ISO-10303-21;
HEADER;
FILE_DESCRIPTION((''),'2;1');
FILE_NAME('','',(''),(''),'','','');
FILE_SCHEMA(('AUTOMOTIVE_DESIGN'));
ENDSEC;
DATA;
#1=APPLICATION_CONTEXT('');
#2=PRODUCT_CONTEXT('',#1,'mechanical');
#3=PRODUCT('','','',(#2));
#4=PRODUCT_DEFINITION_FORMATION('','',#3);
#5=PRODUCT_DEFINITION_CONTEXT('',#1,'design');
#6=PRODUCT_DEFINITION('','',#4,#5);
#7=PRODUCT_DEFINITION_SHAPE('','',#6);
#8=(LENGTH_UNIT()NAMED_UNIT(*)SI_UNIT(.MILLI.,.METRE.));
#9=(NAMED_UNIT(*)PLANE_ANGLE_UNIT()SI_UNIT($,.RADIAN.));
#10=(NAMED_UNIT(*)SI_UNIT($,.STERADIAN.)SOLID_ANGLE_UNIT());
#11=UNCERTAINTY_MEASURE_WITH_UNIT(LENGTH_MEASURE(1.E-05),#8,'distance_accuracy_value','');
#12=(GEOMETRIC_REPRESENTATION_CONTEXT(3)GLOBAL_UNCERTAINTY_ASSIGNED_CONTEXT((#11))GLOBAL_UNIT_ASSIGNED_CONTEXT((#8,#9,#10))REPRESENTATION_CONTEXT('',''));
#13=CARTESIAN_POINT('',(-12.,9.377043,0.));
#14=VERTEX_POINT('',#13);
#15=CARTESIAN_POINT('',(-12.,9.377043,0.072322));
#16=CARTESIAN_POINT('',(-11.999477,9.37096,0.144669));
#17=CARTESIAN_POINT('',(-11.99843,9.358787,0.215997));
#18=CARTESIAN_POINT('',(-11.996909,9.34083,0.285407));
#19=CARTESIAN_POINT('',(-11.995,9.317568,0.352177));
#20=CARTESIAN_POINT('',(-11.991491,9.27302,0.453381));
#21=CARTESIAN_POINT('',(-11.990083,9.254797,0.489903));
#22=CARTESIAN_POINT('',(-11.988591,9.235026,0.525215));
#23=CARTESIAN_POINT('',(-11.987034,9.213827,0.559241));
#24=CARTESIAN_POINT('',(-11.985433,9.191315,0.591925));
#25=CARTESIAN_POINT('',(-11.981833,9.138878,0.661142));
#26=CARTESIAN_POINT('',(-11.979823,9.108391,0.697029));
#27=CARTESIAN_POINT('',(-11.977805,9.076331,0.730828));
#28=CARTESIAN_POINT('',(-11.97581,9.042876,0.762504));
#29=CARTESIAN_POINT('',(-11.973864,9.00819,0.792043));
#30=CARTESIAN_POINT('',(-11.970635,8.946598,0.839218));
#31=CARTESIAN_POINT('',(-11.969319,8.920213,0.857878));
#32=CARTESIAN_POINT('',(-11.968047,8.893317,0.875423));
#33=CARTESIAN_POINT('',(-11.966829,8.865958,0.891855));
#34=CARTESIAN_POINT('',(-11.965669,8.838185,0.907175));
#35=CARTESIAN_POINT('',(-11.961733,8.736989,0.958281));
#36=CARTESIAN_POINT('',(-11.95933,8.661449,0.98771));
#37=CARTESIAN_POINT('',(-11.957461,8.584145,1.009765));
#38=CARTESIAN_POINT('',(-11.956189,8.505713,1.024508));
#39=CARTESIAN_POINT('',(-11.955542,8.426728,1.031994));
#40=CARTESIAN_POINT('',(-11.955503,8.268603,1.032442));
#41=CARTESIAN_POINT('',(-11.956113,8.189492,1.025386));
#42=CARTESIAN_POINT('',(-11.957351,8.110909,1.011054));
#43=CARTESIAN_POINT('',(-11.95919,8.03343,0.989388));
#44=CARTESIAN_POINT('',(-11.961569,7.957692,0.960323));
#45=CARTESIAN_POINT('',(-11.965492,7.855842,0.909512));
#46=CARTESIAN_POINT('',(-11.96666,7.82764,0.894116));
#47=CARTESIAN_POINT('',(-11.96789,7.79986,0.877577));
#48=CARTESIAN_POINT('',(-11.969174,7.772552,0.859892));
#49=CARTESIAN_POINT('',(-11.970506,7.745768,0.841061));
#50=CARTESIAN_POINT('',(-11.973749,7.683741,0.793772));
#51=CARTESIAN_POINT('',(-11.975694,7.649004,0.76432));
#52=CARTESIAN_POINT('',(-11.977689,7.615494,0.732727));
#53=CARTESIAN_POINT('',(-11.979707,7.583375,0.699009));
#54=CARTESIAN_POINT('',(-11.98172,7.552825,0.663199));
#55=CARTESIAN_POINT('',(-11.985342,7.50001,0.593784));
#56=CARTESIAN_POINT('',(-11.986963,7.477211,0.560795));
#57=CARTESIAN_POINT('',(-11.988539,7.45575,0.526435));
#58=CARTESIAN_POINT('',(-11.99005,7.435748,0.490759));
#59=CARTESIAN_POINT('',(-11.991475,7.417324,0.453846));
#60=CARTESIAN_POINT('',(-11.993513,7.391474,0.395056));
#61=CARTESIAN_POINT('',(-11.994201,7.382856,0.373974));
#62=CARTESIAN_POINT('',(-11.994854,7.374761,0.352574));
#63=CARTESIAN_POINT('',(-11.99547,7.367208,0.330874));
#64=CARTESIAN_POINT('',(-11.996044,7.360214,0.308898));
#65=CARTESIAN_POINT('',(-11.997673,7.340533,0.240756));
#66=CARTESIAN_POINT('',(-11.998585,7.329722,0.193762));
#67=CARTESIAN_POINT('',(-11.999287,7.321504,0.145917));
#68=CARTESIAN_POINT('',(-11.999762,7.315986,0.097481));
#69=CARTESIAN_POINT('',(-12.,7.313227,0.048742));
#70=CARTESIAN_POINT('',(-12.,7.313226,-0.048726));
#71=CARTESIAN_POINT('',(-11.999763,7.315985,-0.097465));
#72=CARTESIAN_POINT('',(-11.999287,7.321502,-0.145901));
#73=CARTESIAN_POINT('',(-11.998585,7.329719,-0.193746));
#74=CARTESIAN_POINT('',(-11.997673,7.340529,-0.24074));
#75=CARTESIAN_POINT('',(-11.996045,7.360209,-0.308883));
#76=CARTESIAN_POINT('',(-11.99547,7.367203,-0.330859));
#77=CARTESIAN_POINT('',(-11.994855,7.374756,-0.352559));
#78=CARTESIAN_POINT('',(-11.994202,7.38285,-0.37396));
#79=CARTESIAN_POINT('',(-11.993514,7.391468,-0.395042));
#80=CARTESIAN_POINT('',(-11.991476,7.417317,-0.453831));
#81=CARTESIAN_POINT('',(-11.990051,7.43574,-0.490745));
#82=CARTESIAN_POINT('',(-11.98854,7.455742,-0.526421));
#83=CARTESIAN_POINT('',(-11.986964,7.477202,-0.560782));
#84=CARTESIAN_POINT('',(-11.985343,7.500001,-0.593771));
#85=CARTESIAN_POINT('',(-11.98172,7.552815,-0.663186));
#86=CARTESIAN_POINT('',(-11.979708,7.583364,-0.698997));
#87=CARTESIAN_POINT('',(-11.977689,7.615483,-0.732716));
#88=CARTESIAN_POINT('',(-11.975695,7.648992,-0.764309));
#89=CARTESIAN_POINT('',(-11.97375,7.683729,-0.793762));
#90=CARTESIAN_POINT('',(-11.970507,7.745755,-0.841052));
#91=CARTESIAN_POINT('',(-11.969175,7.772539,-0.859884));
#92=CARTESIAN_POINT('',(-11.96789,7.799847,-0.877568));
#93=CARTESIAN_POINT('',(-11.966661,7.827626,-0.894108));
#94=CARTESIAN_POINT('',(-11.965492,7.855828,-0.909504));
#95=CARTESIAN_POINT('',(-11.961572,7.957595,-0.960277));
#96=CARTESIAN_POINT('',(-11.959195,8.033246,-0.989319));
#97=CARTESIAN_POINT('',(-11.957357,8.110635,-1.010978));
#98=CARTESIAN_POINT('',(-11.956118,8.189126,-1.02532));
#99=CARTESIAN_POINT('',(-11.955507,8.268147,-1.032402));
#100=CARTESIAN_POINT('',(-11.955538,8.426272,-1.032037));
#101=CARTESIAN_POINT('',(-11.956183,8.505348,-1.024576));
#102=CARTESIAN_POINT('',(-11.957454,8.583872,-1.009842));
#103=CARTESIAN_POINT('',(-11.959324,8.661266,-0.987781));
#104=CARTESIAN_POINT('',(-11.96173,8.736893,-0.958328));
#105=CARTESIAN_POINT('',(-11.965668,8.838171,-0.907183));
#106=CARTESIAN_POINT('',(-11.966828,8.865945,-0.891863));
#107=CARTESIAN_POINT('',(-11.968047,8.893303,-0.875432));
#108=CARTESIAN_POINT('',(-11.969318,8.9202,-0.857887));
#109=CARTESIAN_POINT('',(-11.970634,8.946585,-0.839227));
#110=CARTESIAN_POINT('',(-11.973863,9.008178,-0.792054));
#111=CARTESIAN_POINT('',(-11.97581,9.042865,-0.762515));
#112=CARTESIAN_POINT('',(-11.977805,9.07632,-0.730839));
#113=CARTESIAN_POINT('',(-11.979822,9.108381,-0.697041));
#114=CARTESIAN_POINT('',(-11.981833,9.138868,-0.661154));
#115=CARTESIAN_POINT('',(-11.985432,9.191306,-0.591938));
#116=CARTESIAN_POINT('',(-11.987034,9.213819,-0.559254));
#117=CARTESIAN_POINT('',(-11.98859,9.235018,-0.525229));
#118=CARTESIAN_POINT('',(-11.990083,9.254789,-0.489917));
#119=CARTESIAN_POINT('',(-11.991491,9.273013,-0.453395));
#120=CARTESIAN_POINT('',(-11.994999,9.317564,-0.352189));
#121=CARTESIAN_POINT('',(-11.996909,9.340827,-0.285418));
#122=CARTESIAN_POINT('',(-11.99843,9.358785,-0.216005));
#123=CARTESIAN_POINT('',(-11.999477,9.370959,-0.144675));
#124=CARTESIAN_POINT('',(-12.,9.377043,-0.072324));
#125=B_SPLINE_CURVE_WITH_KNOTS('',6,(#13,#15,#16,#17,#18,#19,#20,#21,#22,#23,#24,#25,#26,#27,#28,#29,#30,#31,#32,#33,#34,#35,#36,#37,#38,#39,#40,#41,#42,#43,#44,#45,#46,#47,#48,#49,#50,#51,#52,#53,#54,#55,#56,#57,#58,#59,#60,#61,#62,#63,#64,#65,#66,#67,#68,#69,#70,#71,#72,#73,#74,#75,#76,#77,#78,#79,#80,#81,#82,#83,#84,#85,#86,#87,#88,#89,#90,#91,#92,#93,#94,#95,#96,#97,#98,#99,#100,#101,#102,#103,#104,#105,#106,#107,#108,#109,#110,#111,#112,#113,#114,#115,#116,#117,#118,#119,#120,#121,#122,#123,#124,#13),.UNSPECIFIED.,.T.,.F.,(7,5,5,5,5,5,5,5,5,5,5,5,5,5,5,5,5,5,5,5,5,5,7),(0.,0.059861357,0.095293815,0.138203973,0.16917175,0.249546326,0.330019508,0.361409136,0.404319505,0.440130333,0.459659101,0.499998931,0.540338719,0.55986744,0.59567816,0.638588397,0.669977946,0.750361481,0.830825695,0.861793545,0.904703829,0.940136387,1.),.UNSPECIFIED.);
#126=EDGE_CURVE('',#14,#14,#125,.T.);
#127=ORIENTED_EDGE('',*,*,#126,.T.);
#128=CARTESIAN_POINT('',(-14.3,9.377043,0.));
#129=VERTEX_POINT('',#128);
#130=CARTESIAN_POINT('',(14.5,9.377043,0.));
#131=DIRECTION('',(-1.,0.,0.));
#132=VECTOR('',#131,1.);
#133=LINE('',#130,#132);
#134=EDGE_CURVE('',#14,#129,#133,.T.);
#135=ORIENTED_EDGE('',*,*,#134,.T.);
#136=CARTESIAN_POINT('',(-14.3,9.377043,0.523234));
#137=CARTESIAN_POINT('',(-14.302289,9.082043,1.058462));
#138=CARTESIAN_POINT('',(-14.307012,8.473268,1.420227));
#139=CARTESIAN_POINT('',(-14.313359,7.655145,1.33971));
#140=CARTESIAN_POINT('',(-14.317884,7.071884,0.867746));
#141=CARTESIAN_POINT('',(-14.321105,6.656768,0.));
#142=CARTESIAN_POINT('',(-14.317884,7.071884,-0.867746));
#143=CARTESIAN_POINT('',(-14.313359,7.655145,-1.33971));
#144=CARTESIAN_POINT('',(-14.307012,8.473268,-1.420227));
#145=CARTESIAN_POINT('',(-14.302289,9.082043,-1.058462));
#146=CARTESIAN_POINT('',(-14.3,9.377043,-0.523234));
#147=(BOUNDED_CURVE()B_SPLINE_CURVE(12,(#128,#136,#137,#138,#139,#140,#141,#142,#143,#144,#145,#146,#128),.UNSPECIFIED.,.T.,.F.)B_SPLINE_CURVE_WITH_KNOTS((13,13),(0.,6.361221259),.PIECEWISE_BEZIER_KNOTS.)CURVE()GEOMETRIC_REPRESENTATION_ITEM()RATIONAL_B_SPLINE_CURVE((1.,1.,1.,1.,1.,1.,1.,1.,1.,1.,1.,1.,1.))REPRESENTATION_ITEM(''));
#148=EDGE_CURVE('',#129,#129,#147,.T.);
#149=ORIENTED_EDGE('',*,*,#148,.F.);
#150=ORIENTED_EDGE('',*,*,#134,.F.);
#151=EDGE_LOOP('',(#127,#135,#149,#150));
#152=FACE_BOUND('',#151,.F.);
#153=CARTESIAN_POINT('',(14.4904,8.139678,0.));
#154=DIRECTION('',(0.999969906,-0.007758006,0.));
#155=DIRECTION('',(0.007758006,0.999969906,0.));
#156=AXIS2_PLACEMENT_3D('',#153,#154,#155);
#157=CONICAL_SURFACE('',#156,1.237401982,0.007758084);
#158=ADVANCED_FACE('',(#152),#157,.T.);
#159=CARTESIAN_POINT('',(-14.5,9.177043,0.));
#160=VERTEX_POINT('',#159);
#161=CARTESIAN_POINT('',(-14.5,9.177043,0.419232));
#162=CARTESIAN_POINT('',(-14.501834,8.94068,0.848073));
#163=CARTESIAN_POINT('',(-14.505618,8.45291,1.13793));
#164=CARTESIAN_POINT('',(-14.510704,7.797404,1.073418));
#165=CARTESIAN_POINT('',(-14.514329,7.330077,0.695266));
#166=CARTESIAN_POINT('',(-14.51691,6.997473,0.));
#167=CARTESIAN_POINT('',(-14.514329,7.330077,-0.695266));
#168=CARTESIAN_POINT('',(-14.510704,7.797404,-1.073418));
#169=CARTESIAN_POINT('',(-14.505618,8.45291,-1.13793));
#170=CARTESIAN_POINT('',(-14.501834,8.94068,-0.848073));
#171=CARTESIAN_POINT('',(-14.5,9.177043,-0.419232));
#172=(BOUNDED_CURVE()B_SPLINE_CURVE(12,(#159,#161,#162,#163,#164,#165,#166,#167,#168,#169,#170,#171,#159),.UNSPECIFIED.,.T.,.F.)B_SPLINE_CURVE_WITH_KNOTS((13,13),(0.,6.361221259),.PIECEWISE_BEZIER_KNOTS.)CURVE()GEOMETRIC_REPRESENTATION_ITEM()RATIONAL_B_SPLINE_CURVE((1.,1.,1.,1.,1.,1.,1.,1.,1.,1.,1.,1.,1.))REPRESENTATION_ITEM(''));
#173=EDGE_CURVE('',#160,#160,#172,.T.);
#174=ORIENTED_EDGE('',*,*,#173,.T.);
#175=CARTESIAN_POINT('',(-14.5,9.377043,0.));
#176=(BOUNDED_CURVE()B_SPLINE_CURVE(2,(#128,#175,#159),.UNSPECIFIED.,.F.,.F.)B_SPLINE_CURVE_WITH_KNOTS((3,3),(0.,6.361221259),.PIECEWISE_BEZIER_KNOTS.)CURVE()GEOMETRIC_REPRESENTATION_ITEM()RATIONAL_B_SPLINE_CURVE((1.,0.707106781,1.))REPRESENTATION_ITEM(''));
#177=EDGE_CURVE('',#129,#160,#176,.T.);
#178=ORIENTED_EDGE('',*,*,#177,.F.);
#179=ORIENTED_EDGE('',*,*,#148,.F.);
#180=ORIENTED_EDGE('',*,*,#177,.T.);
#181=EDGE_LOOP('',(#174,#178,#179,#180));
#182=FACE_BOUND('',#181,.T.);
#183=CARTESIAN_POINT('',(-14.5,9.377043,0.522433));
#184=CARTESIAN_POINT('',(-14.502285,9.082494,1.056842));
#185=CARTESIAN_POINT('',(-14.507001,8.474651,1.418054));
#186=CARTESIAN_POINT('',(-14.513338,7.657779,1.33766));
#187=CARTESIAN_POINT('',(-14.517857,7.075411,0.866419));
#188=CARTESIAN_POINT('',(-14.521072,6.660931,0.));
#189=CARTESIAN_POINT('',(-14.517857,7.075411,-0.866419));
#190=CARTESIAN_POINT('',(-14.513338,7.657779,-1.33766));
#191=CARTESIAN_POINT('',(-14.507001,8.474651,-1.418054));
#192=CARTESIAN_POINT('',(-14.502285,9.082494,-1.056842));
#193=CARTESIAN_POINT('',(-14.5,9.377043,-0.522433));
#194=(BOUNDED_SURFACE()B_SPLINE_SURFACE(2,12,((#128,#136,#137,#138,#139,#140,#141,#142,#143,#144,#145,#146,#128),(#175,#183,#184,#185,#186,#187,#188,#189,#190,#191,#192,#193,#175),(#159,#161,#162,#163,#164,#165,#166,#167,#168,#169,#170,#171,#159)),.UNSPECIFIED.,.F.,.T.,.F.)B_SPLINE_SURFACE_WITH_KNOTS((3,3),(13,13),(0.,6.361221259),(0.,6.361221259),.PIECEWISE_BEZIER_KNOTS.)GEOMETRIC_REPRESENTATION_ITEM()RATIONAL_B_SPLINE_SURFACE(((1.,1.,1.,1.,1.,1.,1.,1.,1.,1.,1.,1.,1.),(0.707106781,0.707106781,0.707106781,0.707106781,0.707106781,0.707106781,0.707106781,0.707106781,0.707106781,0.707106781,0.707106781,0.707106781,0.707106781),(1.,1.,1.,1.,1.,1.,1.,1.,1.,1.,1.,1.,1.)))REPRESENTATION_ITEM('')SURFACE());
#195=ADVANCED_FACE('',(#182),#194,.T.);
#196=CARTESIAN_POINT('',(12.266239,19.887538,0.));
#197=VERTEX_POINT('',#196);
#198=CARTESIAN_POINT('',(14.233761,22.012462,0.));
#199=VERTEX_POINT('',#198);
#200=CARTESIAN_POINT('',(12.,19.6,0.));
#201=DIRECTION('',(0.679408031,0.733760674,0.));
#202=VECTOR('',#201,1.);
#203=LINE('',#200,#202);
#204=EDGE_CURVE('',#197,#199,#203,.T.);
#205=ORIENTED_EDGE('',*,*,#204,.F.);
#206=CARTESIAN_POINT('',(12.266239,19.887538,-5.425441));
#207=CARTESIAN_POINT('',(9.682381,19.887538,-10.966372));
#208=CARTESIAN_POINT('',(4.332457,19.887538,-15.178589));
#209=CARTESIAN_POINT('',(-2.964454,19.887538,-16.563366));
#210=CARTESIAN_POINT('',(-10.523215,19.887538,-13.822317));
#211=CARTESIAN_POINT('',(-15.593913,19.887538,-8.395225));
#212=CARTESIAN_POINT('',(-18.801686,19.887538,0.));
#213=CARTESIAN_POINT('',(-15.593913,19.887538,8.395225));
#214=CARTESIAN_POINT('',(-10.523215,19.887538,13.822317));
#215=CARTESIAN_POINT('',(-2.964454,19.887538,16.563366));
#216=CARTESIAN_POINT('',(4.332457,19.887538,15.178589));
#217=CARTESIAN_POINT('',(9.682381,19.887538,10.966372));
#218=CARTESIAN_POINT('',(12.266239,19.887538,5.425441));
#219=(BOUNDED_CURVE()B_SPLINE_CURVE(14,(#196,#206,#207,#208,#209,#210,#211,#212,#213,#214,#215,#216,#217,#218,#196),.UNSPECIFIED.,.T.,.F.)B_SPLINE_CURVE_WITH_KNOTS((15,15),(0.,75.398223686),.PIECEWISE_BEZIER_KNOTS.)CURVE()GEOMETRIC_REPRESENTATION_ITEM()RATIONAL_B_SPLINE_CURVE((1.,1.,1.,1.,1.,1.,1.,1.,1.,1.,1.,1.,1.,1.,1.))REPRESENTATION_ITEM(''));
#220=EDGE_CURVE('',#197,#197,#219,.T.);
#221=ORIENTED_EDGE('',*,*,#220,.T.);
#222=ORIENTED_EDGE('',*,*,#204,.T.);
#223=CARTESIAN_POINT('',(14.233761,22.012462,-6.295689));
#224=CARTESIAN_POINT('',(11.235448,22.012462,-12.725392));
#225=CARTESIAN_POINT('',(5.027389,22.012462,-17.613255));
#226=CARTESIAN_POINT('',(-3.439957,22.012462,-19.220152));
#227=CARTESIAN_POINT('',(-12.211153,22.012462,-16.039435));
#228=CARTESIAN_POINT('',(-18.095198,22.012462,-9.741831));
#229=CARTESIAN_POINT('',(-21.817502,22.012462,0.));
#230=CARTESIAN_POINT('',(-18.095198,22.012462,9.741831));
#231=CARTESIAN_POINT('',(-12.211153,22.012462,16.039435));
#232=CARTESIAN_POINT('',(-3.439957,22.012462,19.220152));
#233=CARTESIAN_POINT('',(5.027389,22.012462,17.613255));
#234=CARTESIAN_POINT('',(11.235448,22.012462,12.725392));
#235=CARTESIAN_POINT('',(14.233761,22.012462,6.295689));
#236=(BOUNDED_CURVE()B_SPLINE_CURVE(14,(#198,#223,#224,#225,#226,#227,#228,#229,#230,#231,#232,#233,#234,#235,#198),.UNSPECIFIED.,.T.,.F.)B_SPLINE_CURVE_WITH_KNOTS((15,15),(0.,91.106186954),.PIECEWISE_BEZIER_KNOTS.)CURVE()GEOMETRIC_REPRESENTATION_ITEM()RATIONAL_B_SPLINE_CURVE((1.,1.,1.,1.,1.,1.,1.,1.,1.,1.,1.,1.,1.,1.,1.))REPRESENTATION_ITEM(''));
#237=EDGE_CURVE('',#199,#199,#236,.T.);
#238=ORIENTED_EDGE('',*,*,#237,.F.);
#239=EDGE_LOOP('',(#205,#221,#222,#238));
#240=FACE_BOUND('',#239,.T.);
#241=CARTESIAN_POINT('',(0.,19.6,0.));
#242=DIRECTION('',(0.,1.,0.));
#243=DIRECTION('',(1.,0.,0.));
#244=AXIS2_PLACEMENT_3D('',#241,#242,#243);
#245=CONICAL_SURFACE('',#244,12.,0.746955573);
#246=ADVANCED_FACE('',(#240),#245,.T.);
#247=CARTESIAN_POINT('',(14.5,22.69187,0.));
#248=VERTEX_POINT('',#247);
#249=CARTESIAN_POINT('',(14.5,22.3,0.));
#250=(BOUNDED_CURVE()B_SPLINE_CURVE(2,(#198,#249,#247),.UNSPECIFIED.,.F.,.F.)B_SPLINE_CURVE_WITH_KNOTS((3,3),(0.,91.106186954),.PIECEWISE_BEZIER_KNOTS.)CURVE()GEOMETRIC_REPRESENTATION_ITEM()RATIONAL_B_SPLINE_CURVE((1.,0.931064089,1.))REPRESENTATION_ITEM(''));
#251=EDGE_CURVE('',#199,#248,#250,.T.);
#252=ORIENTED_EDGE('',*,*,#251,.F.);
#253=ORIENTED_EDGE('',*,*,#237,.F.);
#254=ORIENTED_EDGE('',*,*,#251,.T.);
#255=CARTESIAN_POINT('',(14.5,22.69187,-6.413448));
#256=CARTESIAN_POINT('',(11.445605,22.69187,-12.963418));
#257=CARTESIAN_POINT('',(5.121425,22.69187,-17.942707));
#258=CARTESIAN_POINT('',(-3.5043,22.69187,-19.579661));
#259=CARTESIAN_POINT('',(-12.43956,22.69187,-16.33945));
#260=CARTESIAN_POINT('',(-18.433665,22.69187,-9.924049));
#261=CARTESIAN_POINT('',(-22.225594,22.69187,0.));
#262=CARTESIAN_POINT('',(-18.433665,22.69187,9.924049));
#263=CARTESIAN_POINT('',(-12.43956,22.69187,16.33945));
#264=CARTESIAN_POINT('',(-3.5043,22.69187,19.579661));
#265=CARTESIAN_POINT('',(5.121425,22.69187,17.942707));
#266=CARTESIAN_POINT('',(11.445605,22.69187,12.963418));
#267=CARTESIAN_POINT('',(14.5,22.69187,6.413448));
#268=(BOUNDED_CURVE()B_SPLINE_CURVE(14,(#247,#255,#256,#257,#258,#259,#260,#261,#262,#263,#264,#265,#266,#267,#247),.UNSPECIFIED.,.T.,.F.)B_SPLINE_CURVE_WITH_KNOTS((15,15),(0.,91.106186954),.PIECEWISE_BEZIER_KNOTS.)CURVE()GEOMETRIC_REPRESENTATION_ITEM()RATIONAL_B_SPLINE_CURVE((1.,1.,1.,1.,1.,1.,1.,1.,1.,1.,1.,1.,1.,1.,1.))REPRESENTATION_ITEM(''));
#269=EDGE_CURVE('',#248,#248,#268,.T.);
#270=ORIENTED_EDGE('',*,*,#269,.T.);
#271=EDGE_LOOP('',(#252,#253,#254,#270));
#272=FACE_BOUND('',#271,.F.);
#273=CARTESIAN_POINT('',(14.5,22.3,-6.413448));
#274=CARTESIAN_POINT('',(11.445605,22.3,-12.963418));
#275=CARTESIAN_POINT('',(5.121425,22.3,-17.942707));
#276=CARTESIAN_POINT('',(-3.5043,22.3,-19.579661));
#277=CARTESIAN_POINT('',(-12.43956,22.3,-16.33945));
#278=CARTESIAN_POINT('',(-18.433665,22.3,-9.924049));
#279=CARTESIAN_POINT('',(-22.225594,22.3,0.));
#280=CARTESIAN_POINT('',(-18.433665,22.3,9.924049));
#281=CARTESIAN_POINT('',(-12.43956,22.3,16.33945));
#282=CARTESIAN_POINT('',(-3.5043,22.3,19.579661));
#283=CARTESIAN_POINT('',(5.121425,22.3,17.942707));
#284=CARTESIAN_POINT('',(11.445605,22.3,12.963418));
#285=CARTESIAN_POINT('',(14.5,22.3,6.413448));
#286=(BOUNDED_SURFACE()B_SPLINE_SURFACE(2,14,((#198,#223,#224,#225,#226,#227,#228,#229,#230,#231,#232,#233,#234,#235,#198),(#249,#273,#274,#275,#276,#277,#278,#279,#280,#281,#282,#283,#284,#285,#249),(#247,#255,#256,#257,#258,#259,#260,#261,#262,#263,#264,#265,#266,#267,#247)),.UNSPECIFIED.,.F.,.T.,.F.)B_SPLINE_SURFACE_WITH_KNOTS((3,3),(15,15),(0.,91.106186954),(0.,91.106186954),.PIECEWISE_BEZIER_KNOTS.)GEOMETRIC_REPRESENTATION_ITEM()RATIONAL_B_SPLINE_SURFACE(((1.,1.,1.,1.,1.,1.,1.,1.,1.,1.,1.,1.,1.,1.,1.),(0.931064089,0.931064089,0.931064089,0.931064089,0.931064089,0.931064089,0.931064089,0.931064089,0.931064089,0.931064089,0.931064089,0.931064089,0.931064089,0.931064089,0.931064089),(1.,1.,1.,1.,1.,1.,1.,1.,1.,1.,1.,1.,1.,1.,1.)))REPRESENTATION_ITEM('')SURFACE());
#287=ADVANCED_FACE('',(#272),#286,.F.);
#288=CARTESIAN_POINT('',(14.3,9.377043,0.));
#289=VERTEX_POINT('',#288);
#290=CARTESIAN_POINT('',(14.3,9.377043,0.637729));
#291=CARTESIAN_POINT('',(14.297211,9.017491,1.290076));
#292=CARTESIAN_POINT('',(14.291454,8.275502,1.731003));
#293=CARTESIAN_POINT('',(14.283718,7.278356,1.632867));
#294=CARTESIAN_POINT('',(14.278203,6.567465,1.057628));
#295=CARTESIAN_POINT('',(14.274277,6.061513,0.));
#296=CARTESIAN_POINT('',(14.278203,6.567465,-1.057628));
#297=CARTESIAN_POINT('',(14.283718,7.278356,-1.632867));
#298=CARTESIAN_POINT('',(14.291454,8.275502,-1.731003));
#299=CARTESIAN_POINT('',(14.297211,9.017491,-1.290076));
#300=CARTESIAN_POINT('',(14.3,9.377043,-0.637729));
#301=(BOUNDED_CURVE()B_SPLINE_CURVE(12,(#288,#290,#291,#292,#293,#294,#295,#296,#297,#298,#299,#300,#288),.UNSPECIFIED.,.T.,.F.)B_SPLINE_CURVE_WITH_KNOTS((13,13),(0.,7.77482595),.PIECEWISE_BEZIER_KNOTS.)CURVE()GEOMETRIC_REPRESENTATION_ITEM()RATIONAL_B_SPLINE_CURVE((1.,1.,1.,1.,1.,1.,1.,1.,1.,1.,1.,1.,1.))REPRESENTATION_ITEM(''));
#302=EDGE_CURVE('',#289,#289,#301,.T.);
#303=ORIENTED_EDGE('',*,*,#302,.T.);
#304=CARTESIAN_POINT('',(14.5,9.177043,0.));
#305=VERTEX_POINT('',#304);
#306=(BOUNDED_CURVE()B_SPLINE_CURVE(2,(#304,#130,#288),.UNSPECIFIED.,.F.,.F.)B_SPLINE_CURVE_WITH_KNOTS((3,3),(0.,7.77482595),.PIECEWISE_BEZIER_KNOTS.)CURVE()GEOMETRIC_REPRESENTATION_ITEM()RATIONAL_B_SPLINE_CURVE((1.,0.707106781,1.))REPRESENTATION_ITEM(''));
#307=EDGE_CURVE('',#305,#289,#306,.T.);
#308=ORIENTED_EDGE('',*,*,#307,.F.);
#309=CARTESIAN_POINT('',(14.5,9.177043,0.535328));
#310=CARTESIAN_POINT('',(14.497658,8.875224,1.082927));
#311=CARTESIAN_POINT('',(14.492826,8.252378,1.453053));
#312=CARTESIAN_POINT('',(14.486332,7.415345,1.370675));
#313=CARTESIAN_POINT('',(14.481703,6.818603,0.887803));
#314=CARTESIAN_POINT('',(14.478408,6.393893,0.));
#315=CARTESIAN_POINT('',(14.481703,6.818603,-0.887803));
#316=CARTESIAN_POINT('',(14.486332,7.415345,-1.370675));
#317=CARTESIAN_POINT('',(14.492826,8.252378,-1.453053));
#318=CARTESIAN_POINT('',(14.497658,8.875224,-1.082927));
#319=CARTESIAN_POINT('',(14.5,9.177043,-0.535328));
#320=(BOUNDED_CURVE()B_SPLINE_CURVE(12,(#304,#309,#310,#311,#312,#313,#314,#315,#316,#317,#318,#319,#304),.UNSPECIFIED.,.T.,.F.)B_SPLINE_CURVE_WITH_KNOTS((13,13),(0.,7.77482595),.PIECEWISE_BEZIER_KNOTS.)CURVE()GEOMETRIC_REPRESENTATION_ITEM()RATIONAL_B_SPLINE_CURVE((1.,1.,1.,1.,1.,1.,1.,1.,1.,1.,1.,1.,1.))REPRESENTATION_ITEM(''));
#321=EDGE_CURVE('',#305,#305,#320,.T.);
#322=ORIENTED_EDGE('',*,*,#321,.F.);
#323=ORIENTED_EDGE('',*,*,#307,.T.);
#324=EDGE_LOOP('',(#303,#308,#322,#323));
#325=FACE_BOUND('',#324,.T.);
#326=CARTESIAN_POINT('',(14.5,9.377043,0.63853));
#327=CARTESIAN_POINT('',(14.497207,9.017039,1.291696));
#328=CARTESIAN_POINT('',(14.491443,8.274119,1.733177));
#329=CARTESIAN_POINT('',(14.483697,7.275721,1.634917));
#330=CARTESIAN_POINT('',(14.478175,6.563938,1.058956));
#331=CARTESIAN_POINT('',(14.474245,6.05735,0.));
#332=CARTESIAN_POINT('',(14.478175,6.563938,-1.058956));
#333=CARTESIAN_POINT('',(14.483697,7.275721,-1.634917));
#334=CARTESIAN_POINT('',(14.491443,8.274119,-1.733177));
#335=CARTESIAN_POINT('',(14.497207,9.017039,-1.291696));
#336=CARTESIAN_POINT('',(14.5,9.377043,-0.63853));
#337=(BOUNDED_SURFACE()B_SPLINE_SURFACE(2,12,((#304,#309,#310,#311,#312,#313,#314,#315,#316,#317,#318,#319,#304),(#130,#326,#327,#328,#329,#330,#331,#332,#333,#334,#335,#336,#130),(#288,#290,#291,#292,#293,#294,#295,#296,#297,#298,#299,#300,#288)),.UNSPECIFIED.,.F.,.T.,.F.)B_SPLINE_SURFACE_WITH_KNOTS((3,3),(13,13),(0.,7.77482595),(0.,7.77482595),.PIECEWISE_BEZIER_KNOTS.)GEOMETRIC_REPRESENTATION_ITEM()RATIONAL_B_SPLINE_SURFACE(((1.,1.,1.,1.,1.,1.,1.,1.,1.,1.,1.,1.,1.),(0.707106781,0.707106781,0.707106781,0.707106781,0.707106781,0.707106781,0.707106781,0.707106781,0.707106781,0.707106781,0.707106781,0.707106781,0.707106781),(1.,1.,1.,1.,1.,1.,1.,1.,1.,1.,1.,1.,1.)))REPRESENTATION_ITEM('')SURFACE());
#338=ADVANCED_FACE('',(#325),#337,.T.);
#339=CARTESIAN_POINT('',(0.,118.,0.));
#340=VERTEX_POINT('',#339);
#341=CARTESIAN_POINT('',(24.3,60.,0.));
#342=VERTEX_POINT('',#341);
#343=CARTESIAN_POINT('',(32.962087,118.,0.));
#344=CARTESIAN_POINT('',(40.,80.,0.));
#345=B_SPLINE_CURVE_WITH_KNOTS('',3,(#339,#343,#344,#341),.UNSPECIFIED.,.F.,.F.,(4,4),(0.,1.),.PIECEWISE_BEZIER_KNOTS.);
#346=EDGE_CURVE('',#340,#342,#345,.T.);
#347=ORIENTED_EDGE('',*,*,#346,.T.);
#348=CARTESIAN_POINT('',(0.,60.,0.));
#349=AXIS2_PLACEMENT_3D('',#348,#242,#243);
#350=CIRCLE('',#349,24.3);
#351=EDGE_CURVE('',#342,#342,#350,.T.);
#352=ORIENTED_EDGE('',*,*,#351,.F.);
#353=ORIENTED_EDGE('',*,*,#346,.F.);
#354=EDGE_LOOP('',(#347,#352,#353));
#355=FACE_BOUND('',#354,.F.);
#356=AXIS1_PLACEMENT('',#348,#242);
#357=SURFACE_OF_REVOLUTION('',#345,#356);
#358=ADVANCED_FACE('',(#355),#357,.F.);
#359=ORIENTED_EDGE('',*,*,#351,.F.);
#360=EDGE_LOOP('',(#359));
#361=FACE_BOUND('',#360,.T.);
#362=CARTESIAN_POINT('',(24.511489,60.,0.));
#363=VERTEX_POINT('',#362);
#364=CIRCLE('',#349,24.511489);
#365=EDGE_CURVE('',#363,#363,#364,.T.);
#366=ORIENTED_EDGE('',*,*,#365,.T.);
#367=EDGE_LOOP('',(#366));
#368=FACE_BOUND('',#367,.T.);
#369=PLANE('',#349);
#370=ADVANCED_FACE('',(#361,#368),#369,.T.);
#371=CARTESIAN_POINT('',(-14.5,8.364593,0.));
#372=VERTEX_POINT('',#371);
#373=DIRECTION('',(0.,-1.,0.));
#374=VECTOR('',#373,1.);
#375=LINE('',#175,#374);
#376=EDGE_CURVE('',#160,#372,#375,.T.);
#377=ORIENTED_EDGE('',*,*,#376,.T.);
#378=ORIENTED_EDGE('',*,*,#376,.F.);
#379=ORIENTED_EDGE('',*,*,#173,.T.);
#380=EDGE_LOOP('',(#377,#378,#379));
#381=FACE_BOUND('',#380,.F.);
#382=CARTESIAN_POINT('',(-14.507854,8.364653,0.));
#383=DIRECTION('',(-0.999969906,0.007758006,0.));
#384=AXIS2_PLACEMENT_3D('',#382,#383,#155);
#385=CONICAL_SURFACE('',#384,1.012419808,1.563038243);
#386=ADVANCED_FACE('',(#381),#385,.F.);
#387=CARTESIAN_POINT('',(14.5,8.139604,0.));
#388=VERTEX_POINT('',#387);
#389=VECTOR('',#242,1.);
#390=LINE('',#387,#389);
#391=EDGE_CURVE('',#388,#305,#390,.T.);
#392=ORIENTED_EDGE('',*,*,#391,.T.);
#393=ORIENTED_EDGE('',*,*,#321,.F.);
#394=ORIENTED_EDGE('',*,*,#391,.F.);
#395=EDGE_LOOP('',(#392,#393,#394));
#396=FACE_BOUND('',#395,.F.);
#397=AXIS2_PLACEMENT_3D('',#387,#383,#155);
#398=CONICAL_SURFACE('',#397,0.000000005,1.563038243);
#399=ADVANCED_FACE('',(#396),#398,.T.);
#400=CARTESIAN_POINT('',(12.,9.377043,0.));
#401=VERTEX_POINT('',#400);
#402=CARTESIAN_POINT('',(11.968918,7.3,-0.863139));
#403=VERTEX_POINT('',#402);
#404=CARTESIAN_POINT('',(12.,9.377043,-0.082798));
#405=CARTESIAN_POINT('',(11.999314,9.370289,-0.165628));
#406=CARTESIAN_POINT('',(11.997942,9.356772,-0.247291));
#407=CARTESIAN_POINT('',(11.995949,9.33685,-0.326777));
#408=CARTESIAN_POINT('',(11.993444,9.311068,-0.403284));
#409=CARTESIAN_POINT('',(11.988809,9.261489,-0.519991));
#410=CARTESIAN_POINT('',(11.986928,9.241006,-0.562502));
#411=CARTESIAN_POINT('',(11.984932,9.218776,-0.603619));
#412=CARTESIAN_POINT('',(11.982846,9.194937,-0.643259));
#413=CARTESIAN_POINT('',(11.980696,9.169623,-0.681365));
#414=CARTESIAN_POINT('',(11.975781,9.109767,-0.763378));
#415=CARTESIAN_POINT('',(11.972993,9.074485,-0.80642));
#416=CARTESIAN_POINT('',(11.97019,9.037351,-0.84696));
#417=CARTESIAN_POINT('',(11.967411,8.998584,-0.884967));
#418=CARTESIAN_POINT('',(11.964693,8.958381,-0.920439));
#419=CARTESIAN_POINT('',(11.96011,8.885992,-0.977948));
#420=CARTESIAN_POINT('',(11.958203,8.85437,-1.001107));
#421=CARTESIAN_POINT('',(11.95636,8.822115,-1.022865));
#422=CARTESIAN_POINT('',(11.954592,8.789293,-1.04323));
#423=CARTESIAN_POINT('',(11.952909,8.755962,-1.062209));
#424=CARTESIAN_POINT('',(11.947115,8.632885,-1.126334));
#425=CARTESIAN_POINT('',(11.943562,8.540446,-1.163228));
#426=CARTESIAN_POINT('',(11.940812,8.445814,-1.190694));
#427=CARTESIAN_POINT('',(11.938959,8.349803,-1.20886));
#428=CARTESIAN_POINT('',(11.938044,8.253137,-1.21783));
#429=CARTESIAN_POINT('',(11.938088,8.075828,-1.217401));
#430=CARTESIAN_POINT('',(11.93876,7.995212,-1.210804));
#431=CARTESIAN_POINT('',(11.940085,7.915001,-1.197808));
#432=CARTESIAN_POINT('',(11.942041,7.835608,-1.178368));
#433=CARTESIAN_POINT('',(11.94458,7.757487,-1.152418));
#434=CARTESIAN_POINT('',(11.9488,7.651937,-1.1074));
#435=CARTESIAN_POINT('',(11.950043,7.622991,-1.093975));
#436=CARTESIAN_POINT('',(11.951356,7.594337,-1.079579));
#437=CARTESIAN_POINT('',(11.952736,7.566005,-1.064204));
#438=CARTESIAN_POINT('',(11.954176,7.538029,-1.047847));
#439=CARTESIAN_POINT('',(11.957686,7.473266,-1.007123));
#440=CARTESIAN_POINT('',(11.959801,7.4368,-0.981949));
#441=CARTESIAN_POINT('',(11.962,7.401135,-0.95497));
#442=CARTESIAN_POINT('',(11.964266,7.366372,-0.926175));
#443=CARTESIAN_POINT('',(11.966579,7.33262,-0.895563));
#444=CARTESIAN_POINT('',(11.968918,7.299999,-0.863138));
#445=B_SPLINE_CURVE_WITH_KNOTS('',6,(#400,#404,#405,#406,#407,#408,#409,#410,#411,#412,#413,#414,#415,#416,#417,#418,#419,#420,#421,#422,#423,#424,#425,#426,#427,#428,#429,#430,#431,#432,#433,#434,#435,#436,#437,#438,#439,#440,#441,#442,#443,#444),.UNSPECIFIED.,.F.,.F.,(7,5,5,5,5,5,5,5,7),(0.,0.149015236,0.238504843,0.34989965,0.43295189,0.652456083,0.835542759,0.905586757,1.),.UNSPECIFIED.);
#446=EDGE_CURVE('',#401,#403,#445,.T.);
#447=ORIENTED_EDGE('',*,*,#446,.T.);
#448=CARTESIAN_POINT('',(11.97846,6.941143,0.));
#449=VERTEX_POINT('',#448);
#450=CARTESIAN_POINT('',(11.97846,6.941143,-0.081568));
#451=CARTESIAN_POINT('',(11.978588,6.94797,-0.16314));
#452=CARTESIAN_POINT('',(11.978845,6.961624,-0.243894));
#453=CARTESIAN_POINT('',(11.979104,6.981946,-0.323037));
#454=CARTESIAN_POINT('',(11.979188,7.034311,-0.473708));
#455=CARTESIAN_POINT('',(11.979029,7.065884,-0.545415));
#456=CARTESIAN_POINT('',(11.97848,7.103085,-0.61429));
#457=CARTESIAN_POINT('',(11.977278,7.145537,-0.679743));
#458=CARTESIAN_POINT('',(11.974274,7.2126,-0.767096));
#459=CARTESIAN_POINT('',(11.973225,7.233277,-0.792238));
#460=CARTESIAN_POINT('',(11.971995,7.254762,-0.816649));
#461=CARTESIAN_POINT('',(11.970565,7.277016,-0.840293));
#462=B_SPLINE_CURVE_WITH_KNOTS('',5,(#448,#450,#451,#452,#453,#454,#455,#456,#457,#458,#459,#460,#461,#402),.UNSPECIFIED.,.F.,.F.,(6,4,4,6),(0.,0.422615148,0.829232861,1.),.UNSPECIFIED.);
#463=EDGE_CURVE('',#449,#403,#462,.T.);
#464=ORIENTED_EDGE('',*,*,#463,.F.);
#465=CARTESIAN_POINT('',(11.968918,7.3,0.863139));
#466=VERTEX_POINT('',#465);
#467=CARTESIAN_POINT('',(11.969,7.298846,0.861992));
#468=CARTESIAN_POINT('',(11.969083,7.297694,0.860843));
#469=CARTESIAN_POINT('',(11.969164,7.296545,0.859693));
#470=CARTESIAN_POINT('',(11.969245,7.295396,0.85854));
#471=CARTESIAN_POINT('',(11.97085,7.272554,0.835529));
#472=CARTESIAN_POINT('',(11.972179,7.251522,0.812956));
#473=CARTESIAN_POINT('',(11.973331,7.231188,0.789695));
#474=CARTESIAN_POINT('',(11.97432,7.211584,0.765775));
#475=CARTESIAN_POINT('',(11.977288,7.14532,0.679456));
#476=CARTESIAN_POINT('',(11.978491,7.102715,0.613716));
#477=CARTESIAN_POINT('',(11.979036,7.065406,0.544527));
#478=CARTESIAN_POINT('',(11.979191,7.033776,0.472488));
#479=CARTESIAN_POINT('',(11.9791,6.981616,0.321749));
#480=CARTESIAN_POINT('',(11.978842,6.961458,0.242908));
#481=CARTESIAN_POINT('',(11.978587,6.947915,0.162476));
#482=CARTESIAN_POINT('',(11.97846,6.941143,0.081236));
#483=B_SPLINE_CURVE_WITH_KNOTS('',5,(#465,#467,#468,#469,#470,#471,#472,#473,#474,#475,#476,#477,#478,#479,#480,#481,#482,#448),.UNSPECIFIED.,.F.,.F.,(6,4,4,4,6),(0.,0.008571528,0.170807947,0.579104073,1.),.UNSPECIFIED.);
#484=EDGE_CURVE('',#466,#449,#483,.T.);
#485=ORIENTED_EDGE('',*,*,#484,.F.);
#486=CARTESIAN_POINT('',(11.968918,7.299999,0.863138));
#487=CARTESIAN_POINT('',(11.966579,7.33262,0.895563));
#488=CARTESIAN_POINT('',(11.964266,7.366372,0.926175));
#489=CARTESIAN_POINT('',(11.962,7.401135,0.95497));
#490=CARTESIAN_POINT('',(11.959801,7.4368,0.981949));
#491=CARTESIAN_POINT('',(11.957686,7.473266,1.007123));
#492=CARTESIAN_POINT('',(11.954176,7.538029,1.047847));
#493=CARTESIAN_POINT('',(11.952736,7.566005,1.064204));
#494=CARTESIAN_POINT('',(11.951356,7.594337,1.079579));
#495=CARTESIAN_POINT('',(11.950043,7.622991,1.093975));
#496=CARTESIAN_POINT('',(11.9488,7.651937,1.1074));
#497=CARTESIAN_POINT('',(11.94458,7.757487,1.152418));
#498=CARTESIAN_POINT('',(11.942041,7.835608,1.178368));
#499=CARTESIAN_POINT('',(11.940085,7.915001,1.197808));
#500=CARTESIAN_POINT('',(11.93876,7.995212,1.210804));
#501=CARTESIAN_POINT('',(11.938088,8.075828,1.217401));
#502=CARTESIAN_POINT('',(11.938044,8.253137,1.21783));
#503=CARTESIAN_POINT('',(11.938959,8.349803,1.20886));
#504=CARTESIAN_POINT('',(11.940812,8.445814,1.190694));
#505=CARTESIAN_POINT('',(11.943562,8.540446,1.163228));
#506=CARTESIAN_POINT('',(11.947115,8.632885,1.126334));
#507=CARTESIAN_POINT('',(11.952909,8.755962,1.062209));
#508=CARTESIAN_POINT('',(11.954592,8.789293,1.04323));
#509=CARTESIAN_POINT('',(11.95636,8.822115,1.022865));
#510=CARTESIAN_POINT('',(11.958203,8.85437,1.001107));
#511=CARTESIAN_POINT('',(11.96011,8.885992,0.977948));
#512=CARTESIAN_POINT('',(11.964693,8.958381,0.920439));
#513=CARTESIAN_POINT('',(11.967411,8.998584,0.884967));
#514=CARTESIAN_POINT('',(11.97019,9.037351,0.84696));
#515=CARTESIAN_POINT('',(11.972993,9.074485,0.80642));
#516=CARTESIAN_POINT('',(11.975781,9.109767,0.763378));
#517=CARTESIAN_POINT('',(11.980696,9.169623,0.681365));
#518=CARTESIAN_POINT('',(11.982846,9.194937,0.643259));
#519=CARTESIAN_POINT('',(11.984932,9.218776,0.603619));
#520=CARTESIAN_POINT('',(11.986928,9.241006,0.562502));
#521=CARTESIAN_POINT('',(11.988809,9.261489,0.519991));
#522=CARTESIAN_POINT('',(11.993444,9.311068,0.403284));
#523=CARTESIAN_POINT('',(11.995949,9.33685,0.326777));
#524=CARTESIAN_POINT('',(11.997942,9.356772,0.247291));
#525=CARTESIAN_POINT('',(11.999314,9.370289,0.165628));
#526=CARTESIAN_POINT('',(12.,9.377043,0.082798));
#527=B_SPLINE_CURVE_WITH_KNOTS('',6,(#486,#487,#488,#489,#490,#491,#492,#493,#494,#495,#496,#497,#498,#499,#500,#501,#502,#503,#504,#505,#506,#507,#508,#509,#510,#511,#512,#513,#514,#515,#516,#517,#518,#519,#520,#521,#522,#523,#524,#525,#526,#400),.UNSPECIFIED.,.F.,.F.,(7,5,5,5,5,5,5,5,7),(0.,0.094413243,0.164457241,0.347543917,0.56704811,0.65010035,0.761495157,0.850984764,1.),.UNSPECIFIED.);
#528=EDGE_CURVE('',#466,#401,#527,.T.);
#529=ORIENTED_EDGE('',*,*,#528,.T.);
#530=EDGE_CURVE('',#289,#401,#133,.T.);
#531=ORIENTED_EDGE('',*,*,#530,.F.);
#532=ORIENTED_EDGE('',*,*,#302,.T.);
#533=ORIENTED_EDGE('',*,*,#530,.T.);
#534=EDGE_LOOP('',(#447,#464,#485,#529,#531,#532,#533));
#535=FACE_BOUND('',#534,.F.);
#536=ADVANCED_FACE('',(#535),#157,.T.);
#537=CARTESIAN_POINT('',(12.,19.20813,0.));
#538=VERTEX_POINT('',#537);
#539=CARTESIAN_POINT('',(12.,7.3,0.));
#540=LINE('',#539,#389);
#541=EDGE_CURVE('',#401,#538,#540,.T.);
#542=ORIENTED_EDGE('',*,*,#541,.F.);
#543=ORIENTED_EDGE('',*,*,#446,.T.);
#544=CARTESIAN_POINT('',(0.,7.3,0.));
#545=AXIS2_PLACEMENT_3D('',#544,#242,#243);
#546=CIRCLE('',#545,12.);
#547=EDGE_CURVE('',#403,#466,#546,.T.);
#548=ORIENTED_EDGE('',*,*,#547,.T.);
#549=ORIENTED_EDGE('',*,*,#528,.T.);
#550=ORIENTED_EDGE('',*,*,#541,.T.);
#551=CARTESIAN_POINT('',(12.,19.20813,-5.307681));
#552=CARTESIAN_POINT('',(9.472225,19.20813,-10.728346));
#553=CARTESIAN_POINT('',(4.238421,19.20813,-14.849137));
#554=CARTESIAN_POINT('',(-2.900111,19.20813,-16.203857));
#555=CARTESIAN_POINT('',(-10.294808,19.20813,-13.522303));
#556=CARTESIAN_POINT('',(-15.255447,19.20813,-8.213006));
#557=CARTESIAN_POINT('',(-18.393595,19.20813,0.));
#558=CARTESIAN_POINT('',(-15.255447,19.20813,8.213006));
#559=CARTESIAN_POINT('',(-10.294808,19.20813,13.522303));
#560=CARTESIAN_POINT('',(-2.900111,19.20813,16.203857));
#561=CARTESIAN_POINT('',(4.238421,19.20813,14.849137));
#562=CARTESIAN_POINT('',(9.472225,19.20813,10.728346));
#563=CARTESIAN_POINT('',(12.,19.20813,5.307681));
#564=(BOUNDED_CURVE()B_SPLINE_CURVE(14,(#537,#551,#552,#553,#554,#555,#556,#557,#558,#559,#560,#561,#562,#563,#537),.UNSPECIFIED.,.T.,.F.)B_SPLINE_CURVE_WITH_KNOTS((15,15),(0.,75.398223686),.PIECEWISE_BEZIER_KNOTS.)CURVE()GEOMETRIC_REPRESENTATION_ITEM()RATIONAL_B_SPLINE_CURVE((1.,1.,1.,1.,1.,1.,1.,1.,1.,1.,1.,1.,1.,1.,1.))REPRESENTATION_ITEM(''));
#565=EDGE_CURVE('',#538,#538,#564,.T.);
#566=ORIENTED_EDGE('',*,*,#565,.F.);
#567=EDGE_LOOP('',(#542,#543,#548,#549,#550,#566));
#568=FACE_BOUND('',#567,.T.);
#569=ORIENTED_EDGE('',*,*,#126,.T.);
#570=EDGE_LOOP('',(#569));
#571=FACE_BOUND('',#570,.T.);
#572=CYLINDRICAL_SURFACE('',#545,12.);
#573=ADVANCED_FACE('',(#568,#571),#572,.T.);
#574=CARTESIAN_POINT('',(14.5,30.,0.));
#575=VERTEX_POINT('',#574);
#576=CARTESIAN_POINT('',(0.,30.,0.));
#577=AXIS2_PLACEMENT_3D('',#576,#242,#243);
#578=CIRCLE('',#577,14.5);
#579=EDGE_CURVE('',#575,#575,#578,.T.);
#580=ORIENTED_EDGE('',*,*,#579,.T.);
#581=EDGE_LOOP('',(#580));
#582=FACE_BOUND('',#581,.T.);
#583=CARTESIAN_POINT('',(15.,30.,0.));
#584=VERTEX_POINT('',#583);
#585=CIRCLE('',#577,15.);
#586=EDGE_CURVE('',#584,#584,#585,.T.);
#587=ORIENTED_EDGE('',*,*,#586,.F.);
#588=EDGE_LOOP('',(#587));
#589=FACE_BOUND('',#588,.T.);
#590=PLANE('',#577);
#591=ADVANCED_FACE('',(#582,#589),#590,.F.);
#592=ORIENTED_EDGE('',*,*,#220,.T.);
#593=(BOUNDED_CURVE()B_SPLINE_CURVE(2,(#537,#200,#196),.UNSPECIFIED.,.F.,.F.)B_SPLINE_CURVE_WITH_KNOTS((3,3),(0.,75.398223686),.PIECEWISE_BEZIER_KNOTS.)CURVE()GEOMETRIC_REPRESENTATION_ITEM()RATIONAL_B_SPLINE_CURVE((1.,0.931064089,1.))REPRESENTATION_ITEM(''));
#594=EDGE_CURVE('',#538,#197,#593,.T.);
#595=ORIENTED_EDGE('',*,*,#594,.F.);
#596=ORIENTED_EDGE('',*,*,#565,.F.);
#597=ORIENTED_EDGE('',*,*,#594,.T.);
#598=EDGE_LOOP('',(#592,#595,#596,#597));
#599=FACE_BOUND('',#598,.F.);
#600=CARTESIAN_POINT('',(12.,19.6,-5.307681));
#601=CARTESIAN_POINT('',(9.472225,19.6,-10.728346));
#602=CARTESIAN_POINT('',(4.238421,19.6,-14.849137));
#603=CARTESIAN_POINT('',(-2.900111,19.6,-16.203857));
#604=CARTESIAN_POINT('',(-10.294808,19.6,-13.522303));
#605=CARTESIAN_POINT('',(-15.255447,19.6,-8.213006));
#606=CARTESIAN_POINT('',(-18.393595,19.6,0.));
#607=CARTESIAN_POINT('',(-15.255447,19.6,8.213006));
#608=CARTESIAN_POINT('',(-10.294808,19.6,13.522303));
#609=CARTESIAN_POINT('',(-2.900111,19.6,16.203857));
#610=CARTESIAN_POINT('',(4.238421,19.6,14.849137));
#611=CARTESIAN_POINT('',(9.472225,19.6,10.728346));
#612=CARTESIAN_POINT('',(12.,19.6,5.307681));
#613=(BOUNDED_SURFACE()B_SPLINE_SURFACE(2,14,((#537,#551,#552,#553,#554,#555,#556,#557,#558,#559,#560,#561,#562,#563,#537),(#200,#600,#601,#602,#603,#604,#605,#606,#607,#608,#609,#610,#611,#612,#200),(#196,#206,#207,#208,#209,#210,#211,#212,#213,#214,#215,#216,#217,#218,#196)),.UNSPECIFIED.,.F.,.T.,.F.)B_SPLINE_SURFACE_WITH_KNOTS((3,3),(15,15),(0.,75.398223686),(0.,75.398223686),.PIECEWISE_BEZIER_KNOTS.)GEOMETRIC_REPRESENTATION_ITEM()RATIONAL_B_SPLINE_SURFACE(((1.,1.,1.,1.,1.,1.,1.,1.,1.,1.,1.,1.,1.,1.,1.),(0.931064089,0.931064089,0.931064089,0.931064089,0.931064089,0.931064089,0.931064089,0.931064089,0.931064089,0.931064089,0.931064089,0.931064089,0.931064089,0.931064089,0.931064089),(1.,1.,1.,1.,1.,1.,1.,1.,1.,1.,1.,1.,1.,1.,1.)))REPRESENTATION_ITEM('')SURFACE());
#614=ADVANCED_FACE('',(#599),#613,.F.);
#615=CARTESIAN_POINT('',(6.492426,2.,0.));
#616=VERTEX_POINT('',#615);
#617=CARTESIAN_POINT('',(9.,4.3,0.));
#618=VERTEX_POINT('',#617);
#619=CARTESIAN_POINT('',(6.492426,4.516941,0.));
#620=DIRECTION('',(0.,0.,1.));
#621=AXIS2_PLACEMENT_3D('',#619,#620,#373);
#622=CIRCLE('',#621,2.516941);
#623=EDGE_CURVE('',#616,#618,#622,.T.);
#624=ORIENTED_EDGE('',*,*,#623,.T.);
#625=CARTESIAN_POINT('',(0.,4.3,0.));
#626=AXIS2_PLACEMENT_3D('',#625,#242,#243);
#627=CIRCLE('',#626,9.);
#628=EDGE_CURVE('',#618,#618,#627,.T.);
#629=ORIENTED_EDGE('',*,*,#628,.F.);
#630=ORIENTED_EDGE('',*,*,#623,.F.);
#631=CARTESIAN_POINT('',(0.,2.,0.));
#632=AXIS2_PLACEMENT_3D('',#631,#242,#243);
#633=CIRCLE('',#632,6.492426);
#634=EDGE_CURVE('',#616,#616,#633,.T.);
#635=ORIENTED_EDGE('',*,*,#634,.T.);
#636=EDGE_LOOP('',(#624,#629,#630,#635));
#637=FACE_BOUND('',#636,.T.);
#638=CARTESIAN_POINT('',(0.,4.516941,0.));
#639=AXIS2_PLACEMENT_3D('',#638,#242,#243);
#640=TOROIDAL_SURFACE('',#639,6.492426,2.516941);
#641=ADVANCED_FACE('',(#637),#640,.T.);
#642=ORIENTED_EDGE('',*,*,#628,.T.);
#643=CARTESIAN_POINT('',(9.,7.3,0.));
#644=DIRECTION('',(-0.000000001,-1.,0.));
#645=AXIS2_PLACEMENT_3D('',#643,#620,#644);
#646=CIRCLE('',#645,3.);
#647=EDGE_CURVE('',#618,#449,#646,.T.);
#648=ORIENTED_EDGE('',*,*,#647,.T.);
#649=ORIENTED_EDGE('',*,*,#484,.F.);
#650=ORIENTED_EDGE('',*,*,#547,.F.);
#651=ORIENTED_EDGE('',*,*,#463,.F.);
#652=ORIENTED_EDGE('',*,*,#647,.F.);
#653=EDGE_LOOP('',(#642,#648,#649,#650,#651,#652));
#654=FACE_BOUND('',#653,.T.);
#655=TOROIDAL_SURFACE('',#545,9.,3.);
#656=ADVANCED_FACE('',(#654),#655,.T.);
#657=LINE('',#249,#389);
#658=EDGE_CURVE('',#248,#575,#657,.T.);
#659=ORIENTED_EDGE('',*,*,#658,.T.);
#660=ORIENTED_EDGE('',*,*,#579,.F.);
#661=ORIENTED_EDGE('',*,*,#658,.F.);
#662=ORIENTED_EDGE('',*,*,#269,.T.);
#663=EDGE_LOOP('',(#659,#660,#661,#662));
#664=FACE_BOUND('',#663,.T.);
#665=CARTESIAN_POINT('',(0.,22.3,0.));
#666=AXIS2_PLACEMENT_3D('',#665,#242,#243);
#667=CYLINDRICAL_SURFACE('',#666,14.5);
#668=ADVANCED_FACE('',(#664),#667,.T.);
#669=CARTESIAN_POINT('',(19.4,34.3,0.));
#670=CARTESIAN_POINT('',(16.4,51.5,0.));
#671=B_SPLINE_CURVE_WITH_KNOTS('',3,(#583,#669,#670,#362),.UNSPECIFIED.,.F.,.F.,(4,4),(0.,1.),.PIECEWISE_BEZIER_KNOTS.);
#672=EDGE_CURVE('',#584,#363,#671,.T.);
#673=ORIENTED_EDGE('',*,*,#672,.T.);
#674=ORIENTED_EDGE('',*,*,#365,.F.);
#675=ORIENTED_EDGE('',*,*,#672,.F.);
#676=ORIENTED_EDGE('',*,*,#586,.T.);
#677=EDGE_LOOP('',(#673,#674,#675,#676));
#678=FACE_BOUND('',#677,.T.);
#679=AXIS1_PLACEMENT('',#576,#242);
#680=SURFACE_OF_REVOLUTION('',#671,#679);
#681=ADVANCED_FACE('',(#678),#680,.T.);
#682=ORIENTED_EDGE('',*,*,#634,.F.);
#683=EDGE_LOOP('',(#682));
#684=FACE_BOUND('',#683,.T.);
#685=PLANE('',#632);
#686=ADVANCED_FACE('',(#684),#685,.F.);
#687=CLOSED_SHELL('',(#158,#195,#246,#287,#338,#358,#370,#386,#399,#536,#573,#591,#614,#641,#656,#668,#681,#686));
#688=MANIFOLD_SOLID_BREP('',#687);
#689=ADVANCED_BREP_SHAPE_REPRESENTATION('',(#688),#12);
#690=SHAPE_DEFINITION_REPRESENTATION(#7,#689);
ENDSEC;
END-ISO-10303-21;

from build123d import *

# Parameters (mm, degrees)
FILLET1_R = 0.2
FILLET2_R = 1


with BuildPart() as part:
    # Sketch2 → Revolve2 (revolve)
    with BuildSketch(Plane.XY):
        with BuildLine():
            Line((0, 60), (0, 30))
            Line((0, 30), (15, 30))
            add(Edge.make_bspline(
                [(15, 30), (19.4, 34.3), (16.4, 51.5), (24.51148918, 60)],
                knots=[0, 0, 0, 0, 1, 1, 1, 1], degree=3))
            Line((24.51148918, 60), (0, 60))
        make_face()
    revolve(axis=Axis((0, 30, 0), (0, 1, 0)))

    # Sketch4 → Revolve3 (revolve)
    with BuildSketch(Plane.XY):
        with BuildLine():
            Line((0, 60), (0, 118))
            add(Edge.make_bspline(
                [(0, 118), (32.962086546, 118), (40, 80), (24.3, 60)],
                knots=[0, 0, 0, 0, 1, 1, 1, 1], degree=3))
            Line((24.3, 60), (0, 60))
        make_face()
    revolve(axis=Axis((0, 60, 0), (0, 1, 0)))

    # Sketch5 → Revolve4 (revolve)
    with BuildSketch(Plane.XY):
        with BuildLine():
            Line((0, 30), (0, 4.3))
            Line((0, 4.3), (9, 4.3))
            ThreePointArc((9, 4.3), (11.121320344, 5.178679656), (12, 7.3))
            Line((12, 7.3), (12, 19.6))
            Line((12, 19.6), (14.5, 22.3))
            Line((14.5, 22.3), (14.5, 30))
            Line((14.5, 30), (0, 30))
        make_face()
        with BuildLine():
            Line((0, 4.3), (0, 2))
            Line((0, 2), (6.492425982, 2))
            ThreePointArc((6.492425982, 2), (8.193743667, 2.662079872), (9, 4.3))
            Line((9, 4.3), (0, 4.3))
        make_face()
    revolve(axis=Axis((0, 0, 0), (0, 1, 0)))

    # Sketch6 → Revolve5 (revolve)
    with BuildSketch(Plane.XY):
        Polygon((-14.5, 8.364592551), (14.5, 8.139603601), (14.5, 9.377042827), (-14.5, 9.377042827), align=None)
    revolve(axis=Axis((-14.5, 8.364592551, 0), (0.999969906, -0.007758006, 0)))

    # Fillet1
    fillet1_edges = [part.edges().sort_by_distance(p)[0] for p in [
        (14.480800455, 6.902313329, 0),
        (-14.515708718, 7.352264147, 0),
    ]]
    fillet(fillet1_edges, radius=FILLET1_R)

    # Fillet2
    fillet2_edges = [part.edges().sort_by_distance(p)[0] for p in [
        (-12, 19.6, 0),
        (-14.5, 22.3, 0),
    ]]
    fillet(fillet2_edges, radius=FILLET2_R)


solid = part.part
